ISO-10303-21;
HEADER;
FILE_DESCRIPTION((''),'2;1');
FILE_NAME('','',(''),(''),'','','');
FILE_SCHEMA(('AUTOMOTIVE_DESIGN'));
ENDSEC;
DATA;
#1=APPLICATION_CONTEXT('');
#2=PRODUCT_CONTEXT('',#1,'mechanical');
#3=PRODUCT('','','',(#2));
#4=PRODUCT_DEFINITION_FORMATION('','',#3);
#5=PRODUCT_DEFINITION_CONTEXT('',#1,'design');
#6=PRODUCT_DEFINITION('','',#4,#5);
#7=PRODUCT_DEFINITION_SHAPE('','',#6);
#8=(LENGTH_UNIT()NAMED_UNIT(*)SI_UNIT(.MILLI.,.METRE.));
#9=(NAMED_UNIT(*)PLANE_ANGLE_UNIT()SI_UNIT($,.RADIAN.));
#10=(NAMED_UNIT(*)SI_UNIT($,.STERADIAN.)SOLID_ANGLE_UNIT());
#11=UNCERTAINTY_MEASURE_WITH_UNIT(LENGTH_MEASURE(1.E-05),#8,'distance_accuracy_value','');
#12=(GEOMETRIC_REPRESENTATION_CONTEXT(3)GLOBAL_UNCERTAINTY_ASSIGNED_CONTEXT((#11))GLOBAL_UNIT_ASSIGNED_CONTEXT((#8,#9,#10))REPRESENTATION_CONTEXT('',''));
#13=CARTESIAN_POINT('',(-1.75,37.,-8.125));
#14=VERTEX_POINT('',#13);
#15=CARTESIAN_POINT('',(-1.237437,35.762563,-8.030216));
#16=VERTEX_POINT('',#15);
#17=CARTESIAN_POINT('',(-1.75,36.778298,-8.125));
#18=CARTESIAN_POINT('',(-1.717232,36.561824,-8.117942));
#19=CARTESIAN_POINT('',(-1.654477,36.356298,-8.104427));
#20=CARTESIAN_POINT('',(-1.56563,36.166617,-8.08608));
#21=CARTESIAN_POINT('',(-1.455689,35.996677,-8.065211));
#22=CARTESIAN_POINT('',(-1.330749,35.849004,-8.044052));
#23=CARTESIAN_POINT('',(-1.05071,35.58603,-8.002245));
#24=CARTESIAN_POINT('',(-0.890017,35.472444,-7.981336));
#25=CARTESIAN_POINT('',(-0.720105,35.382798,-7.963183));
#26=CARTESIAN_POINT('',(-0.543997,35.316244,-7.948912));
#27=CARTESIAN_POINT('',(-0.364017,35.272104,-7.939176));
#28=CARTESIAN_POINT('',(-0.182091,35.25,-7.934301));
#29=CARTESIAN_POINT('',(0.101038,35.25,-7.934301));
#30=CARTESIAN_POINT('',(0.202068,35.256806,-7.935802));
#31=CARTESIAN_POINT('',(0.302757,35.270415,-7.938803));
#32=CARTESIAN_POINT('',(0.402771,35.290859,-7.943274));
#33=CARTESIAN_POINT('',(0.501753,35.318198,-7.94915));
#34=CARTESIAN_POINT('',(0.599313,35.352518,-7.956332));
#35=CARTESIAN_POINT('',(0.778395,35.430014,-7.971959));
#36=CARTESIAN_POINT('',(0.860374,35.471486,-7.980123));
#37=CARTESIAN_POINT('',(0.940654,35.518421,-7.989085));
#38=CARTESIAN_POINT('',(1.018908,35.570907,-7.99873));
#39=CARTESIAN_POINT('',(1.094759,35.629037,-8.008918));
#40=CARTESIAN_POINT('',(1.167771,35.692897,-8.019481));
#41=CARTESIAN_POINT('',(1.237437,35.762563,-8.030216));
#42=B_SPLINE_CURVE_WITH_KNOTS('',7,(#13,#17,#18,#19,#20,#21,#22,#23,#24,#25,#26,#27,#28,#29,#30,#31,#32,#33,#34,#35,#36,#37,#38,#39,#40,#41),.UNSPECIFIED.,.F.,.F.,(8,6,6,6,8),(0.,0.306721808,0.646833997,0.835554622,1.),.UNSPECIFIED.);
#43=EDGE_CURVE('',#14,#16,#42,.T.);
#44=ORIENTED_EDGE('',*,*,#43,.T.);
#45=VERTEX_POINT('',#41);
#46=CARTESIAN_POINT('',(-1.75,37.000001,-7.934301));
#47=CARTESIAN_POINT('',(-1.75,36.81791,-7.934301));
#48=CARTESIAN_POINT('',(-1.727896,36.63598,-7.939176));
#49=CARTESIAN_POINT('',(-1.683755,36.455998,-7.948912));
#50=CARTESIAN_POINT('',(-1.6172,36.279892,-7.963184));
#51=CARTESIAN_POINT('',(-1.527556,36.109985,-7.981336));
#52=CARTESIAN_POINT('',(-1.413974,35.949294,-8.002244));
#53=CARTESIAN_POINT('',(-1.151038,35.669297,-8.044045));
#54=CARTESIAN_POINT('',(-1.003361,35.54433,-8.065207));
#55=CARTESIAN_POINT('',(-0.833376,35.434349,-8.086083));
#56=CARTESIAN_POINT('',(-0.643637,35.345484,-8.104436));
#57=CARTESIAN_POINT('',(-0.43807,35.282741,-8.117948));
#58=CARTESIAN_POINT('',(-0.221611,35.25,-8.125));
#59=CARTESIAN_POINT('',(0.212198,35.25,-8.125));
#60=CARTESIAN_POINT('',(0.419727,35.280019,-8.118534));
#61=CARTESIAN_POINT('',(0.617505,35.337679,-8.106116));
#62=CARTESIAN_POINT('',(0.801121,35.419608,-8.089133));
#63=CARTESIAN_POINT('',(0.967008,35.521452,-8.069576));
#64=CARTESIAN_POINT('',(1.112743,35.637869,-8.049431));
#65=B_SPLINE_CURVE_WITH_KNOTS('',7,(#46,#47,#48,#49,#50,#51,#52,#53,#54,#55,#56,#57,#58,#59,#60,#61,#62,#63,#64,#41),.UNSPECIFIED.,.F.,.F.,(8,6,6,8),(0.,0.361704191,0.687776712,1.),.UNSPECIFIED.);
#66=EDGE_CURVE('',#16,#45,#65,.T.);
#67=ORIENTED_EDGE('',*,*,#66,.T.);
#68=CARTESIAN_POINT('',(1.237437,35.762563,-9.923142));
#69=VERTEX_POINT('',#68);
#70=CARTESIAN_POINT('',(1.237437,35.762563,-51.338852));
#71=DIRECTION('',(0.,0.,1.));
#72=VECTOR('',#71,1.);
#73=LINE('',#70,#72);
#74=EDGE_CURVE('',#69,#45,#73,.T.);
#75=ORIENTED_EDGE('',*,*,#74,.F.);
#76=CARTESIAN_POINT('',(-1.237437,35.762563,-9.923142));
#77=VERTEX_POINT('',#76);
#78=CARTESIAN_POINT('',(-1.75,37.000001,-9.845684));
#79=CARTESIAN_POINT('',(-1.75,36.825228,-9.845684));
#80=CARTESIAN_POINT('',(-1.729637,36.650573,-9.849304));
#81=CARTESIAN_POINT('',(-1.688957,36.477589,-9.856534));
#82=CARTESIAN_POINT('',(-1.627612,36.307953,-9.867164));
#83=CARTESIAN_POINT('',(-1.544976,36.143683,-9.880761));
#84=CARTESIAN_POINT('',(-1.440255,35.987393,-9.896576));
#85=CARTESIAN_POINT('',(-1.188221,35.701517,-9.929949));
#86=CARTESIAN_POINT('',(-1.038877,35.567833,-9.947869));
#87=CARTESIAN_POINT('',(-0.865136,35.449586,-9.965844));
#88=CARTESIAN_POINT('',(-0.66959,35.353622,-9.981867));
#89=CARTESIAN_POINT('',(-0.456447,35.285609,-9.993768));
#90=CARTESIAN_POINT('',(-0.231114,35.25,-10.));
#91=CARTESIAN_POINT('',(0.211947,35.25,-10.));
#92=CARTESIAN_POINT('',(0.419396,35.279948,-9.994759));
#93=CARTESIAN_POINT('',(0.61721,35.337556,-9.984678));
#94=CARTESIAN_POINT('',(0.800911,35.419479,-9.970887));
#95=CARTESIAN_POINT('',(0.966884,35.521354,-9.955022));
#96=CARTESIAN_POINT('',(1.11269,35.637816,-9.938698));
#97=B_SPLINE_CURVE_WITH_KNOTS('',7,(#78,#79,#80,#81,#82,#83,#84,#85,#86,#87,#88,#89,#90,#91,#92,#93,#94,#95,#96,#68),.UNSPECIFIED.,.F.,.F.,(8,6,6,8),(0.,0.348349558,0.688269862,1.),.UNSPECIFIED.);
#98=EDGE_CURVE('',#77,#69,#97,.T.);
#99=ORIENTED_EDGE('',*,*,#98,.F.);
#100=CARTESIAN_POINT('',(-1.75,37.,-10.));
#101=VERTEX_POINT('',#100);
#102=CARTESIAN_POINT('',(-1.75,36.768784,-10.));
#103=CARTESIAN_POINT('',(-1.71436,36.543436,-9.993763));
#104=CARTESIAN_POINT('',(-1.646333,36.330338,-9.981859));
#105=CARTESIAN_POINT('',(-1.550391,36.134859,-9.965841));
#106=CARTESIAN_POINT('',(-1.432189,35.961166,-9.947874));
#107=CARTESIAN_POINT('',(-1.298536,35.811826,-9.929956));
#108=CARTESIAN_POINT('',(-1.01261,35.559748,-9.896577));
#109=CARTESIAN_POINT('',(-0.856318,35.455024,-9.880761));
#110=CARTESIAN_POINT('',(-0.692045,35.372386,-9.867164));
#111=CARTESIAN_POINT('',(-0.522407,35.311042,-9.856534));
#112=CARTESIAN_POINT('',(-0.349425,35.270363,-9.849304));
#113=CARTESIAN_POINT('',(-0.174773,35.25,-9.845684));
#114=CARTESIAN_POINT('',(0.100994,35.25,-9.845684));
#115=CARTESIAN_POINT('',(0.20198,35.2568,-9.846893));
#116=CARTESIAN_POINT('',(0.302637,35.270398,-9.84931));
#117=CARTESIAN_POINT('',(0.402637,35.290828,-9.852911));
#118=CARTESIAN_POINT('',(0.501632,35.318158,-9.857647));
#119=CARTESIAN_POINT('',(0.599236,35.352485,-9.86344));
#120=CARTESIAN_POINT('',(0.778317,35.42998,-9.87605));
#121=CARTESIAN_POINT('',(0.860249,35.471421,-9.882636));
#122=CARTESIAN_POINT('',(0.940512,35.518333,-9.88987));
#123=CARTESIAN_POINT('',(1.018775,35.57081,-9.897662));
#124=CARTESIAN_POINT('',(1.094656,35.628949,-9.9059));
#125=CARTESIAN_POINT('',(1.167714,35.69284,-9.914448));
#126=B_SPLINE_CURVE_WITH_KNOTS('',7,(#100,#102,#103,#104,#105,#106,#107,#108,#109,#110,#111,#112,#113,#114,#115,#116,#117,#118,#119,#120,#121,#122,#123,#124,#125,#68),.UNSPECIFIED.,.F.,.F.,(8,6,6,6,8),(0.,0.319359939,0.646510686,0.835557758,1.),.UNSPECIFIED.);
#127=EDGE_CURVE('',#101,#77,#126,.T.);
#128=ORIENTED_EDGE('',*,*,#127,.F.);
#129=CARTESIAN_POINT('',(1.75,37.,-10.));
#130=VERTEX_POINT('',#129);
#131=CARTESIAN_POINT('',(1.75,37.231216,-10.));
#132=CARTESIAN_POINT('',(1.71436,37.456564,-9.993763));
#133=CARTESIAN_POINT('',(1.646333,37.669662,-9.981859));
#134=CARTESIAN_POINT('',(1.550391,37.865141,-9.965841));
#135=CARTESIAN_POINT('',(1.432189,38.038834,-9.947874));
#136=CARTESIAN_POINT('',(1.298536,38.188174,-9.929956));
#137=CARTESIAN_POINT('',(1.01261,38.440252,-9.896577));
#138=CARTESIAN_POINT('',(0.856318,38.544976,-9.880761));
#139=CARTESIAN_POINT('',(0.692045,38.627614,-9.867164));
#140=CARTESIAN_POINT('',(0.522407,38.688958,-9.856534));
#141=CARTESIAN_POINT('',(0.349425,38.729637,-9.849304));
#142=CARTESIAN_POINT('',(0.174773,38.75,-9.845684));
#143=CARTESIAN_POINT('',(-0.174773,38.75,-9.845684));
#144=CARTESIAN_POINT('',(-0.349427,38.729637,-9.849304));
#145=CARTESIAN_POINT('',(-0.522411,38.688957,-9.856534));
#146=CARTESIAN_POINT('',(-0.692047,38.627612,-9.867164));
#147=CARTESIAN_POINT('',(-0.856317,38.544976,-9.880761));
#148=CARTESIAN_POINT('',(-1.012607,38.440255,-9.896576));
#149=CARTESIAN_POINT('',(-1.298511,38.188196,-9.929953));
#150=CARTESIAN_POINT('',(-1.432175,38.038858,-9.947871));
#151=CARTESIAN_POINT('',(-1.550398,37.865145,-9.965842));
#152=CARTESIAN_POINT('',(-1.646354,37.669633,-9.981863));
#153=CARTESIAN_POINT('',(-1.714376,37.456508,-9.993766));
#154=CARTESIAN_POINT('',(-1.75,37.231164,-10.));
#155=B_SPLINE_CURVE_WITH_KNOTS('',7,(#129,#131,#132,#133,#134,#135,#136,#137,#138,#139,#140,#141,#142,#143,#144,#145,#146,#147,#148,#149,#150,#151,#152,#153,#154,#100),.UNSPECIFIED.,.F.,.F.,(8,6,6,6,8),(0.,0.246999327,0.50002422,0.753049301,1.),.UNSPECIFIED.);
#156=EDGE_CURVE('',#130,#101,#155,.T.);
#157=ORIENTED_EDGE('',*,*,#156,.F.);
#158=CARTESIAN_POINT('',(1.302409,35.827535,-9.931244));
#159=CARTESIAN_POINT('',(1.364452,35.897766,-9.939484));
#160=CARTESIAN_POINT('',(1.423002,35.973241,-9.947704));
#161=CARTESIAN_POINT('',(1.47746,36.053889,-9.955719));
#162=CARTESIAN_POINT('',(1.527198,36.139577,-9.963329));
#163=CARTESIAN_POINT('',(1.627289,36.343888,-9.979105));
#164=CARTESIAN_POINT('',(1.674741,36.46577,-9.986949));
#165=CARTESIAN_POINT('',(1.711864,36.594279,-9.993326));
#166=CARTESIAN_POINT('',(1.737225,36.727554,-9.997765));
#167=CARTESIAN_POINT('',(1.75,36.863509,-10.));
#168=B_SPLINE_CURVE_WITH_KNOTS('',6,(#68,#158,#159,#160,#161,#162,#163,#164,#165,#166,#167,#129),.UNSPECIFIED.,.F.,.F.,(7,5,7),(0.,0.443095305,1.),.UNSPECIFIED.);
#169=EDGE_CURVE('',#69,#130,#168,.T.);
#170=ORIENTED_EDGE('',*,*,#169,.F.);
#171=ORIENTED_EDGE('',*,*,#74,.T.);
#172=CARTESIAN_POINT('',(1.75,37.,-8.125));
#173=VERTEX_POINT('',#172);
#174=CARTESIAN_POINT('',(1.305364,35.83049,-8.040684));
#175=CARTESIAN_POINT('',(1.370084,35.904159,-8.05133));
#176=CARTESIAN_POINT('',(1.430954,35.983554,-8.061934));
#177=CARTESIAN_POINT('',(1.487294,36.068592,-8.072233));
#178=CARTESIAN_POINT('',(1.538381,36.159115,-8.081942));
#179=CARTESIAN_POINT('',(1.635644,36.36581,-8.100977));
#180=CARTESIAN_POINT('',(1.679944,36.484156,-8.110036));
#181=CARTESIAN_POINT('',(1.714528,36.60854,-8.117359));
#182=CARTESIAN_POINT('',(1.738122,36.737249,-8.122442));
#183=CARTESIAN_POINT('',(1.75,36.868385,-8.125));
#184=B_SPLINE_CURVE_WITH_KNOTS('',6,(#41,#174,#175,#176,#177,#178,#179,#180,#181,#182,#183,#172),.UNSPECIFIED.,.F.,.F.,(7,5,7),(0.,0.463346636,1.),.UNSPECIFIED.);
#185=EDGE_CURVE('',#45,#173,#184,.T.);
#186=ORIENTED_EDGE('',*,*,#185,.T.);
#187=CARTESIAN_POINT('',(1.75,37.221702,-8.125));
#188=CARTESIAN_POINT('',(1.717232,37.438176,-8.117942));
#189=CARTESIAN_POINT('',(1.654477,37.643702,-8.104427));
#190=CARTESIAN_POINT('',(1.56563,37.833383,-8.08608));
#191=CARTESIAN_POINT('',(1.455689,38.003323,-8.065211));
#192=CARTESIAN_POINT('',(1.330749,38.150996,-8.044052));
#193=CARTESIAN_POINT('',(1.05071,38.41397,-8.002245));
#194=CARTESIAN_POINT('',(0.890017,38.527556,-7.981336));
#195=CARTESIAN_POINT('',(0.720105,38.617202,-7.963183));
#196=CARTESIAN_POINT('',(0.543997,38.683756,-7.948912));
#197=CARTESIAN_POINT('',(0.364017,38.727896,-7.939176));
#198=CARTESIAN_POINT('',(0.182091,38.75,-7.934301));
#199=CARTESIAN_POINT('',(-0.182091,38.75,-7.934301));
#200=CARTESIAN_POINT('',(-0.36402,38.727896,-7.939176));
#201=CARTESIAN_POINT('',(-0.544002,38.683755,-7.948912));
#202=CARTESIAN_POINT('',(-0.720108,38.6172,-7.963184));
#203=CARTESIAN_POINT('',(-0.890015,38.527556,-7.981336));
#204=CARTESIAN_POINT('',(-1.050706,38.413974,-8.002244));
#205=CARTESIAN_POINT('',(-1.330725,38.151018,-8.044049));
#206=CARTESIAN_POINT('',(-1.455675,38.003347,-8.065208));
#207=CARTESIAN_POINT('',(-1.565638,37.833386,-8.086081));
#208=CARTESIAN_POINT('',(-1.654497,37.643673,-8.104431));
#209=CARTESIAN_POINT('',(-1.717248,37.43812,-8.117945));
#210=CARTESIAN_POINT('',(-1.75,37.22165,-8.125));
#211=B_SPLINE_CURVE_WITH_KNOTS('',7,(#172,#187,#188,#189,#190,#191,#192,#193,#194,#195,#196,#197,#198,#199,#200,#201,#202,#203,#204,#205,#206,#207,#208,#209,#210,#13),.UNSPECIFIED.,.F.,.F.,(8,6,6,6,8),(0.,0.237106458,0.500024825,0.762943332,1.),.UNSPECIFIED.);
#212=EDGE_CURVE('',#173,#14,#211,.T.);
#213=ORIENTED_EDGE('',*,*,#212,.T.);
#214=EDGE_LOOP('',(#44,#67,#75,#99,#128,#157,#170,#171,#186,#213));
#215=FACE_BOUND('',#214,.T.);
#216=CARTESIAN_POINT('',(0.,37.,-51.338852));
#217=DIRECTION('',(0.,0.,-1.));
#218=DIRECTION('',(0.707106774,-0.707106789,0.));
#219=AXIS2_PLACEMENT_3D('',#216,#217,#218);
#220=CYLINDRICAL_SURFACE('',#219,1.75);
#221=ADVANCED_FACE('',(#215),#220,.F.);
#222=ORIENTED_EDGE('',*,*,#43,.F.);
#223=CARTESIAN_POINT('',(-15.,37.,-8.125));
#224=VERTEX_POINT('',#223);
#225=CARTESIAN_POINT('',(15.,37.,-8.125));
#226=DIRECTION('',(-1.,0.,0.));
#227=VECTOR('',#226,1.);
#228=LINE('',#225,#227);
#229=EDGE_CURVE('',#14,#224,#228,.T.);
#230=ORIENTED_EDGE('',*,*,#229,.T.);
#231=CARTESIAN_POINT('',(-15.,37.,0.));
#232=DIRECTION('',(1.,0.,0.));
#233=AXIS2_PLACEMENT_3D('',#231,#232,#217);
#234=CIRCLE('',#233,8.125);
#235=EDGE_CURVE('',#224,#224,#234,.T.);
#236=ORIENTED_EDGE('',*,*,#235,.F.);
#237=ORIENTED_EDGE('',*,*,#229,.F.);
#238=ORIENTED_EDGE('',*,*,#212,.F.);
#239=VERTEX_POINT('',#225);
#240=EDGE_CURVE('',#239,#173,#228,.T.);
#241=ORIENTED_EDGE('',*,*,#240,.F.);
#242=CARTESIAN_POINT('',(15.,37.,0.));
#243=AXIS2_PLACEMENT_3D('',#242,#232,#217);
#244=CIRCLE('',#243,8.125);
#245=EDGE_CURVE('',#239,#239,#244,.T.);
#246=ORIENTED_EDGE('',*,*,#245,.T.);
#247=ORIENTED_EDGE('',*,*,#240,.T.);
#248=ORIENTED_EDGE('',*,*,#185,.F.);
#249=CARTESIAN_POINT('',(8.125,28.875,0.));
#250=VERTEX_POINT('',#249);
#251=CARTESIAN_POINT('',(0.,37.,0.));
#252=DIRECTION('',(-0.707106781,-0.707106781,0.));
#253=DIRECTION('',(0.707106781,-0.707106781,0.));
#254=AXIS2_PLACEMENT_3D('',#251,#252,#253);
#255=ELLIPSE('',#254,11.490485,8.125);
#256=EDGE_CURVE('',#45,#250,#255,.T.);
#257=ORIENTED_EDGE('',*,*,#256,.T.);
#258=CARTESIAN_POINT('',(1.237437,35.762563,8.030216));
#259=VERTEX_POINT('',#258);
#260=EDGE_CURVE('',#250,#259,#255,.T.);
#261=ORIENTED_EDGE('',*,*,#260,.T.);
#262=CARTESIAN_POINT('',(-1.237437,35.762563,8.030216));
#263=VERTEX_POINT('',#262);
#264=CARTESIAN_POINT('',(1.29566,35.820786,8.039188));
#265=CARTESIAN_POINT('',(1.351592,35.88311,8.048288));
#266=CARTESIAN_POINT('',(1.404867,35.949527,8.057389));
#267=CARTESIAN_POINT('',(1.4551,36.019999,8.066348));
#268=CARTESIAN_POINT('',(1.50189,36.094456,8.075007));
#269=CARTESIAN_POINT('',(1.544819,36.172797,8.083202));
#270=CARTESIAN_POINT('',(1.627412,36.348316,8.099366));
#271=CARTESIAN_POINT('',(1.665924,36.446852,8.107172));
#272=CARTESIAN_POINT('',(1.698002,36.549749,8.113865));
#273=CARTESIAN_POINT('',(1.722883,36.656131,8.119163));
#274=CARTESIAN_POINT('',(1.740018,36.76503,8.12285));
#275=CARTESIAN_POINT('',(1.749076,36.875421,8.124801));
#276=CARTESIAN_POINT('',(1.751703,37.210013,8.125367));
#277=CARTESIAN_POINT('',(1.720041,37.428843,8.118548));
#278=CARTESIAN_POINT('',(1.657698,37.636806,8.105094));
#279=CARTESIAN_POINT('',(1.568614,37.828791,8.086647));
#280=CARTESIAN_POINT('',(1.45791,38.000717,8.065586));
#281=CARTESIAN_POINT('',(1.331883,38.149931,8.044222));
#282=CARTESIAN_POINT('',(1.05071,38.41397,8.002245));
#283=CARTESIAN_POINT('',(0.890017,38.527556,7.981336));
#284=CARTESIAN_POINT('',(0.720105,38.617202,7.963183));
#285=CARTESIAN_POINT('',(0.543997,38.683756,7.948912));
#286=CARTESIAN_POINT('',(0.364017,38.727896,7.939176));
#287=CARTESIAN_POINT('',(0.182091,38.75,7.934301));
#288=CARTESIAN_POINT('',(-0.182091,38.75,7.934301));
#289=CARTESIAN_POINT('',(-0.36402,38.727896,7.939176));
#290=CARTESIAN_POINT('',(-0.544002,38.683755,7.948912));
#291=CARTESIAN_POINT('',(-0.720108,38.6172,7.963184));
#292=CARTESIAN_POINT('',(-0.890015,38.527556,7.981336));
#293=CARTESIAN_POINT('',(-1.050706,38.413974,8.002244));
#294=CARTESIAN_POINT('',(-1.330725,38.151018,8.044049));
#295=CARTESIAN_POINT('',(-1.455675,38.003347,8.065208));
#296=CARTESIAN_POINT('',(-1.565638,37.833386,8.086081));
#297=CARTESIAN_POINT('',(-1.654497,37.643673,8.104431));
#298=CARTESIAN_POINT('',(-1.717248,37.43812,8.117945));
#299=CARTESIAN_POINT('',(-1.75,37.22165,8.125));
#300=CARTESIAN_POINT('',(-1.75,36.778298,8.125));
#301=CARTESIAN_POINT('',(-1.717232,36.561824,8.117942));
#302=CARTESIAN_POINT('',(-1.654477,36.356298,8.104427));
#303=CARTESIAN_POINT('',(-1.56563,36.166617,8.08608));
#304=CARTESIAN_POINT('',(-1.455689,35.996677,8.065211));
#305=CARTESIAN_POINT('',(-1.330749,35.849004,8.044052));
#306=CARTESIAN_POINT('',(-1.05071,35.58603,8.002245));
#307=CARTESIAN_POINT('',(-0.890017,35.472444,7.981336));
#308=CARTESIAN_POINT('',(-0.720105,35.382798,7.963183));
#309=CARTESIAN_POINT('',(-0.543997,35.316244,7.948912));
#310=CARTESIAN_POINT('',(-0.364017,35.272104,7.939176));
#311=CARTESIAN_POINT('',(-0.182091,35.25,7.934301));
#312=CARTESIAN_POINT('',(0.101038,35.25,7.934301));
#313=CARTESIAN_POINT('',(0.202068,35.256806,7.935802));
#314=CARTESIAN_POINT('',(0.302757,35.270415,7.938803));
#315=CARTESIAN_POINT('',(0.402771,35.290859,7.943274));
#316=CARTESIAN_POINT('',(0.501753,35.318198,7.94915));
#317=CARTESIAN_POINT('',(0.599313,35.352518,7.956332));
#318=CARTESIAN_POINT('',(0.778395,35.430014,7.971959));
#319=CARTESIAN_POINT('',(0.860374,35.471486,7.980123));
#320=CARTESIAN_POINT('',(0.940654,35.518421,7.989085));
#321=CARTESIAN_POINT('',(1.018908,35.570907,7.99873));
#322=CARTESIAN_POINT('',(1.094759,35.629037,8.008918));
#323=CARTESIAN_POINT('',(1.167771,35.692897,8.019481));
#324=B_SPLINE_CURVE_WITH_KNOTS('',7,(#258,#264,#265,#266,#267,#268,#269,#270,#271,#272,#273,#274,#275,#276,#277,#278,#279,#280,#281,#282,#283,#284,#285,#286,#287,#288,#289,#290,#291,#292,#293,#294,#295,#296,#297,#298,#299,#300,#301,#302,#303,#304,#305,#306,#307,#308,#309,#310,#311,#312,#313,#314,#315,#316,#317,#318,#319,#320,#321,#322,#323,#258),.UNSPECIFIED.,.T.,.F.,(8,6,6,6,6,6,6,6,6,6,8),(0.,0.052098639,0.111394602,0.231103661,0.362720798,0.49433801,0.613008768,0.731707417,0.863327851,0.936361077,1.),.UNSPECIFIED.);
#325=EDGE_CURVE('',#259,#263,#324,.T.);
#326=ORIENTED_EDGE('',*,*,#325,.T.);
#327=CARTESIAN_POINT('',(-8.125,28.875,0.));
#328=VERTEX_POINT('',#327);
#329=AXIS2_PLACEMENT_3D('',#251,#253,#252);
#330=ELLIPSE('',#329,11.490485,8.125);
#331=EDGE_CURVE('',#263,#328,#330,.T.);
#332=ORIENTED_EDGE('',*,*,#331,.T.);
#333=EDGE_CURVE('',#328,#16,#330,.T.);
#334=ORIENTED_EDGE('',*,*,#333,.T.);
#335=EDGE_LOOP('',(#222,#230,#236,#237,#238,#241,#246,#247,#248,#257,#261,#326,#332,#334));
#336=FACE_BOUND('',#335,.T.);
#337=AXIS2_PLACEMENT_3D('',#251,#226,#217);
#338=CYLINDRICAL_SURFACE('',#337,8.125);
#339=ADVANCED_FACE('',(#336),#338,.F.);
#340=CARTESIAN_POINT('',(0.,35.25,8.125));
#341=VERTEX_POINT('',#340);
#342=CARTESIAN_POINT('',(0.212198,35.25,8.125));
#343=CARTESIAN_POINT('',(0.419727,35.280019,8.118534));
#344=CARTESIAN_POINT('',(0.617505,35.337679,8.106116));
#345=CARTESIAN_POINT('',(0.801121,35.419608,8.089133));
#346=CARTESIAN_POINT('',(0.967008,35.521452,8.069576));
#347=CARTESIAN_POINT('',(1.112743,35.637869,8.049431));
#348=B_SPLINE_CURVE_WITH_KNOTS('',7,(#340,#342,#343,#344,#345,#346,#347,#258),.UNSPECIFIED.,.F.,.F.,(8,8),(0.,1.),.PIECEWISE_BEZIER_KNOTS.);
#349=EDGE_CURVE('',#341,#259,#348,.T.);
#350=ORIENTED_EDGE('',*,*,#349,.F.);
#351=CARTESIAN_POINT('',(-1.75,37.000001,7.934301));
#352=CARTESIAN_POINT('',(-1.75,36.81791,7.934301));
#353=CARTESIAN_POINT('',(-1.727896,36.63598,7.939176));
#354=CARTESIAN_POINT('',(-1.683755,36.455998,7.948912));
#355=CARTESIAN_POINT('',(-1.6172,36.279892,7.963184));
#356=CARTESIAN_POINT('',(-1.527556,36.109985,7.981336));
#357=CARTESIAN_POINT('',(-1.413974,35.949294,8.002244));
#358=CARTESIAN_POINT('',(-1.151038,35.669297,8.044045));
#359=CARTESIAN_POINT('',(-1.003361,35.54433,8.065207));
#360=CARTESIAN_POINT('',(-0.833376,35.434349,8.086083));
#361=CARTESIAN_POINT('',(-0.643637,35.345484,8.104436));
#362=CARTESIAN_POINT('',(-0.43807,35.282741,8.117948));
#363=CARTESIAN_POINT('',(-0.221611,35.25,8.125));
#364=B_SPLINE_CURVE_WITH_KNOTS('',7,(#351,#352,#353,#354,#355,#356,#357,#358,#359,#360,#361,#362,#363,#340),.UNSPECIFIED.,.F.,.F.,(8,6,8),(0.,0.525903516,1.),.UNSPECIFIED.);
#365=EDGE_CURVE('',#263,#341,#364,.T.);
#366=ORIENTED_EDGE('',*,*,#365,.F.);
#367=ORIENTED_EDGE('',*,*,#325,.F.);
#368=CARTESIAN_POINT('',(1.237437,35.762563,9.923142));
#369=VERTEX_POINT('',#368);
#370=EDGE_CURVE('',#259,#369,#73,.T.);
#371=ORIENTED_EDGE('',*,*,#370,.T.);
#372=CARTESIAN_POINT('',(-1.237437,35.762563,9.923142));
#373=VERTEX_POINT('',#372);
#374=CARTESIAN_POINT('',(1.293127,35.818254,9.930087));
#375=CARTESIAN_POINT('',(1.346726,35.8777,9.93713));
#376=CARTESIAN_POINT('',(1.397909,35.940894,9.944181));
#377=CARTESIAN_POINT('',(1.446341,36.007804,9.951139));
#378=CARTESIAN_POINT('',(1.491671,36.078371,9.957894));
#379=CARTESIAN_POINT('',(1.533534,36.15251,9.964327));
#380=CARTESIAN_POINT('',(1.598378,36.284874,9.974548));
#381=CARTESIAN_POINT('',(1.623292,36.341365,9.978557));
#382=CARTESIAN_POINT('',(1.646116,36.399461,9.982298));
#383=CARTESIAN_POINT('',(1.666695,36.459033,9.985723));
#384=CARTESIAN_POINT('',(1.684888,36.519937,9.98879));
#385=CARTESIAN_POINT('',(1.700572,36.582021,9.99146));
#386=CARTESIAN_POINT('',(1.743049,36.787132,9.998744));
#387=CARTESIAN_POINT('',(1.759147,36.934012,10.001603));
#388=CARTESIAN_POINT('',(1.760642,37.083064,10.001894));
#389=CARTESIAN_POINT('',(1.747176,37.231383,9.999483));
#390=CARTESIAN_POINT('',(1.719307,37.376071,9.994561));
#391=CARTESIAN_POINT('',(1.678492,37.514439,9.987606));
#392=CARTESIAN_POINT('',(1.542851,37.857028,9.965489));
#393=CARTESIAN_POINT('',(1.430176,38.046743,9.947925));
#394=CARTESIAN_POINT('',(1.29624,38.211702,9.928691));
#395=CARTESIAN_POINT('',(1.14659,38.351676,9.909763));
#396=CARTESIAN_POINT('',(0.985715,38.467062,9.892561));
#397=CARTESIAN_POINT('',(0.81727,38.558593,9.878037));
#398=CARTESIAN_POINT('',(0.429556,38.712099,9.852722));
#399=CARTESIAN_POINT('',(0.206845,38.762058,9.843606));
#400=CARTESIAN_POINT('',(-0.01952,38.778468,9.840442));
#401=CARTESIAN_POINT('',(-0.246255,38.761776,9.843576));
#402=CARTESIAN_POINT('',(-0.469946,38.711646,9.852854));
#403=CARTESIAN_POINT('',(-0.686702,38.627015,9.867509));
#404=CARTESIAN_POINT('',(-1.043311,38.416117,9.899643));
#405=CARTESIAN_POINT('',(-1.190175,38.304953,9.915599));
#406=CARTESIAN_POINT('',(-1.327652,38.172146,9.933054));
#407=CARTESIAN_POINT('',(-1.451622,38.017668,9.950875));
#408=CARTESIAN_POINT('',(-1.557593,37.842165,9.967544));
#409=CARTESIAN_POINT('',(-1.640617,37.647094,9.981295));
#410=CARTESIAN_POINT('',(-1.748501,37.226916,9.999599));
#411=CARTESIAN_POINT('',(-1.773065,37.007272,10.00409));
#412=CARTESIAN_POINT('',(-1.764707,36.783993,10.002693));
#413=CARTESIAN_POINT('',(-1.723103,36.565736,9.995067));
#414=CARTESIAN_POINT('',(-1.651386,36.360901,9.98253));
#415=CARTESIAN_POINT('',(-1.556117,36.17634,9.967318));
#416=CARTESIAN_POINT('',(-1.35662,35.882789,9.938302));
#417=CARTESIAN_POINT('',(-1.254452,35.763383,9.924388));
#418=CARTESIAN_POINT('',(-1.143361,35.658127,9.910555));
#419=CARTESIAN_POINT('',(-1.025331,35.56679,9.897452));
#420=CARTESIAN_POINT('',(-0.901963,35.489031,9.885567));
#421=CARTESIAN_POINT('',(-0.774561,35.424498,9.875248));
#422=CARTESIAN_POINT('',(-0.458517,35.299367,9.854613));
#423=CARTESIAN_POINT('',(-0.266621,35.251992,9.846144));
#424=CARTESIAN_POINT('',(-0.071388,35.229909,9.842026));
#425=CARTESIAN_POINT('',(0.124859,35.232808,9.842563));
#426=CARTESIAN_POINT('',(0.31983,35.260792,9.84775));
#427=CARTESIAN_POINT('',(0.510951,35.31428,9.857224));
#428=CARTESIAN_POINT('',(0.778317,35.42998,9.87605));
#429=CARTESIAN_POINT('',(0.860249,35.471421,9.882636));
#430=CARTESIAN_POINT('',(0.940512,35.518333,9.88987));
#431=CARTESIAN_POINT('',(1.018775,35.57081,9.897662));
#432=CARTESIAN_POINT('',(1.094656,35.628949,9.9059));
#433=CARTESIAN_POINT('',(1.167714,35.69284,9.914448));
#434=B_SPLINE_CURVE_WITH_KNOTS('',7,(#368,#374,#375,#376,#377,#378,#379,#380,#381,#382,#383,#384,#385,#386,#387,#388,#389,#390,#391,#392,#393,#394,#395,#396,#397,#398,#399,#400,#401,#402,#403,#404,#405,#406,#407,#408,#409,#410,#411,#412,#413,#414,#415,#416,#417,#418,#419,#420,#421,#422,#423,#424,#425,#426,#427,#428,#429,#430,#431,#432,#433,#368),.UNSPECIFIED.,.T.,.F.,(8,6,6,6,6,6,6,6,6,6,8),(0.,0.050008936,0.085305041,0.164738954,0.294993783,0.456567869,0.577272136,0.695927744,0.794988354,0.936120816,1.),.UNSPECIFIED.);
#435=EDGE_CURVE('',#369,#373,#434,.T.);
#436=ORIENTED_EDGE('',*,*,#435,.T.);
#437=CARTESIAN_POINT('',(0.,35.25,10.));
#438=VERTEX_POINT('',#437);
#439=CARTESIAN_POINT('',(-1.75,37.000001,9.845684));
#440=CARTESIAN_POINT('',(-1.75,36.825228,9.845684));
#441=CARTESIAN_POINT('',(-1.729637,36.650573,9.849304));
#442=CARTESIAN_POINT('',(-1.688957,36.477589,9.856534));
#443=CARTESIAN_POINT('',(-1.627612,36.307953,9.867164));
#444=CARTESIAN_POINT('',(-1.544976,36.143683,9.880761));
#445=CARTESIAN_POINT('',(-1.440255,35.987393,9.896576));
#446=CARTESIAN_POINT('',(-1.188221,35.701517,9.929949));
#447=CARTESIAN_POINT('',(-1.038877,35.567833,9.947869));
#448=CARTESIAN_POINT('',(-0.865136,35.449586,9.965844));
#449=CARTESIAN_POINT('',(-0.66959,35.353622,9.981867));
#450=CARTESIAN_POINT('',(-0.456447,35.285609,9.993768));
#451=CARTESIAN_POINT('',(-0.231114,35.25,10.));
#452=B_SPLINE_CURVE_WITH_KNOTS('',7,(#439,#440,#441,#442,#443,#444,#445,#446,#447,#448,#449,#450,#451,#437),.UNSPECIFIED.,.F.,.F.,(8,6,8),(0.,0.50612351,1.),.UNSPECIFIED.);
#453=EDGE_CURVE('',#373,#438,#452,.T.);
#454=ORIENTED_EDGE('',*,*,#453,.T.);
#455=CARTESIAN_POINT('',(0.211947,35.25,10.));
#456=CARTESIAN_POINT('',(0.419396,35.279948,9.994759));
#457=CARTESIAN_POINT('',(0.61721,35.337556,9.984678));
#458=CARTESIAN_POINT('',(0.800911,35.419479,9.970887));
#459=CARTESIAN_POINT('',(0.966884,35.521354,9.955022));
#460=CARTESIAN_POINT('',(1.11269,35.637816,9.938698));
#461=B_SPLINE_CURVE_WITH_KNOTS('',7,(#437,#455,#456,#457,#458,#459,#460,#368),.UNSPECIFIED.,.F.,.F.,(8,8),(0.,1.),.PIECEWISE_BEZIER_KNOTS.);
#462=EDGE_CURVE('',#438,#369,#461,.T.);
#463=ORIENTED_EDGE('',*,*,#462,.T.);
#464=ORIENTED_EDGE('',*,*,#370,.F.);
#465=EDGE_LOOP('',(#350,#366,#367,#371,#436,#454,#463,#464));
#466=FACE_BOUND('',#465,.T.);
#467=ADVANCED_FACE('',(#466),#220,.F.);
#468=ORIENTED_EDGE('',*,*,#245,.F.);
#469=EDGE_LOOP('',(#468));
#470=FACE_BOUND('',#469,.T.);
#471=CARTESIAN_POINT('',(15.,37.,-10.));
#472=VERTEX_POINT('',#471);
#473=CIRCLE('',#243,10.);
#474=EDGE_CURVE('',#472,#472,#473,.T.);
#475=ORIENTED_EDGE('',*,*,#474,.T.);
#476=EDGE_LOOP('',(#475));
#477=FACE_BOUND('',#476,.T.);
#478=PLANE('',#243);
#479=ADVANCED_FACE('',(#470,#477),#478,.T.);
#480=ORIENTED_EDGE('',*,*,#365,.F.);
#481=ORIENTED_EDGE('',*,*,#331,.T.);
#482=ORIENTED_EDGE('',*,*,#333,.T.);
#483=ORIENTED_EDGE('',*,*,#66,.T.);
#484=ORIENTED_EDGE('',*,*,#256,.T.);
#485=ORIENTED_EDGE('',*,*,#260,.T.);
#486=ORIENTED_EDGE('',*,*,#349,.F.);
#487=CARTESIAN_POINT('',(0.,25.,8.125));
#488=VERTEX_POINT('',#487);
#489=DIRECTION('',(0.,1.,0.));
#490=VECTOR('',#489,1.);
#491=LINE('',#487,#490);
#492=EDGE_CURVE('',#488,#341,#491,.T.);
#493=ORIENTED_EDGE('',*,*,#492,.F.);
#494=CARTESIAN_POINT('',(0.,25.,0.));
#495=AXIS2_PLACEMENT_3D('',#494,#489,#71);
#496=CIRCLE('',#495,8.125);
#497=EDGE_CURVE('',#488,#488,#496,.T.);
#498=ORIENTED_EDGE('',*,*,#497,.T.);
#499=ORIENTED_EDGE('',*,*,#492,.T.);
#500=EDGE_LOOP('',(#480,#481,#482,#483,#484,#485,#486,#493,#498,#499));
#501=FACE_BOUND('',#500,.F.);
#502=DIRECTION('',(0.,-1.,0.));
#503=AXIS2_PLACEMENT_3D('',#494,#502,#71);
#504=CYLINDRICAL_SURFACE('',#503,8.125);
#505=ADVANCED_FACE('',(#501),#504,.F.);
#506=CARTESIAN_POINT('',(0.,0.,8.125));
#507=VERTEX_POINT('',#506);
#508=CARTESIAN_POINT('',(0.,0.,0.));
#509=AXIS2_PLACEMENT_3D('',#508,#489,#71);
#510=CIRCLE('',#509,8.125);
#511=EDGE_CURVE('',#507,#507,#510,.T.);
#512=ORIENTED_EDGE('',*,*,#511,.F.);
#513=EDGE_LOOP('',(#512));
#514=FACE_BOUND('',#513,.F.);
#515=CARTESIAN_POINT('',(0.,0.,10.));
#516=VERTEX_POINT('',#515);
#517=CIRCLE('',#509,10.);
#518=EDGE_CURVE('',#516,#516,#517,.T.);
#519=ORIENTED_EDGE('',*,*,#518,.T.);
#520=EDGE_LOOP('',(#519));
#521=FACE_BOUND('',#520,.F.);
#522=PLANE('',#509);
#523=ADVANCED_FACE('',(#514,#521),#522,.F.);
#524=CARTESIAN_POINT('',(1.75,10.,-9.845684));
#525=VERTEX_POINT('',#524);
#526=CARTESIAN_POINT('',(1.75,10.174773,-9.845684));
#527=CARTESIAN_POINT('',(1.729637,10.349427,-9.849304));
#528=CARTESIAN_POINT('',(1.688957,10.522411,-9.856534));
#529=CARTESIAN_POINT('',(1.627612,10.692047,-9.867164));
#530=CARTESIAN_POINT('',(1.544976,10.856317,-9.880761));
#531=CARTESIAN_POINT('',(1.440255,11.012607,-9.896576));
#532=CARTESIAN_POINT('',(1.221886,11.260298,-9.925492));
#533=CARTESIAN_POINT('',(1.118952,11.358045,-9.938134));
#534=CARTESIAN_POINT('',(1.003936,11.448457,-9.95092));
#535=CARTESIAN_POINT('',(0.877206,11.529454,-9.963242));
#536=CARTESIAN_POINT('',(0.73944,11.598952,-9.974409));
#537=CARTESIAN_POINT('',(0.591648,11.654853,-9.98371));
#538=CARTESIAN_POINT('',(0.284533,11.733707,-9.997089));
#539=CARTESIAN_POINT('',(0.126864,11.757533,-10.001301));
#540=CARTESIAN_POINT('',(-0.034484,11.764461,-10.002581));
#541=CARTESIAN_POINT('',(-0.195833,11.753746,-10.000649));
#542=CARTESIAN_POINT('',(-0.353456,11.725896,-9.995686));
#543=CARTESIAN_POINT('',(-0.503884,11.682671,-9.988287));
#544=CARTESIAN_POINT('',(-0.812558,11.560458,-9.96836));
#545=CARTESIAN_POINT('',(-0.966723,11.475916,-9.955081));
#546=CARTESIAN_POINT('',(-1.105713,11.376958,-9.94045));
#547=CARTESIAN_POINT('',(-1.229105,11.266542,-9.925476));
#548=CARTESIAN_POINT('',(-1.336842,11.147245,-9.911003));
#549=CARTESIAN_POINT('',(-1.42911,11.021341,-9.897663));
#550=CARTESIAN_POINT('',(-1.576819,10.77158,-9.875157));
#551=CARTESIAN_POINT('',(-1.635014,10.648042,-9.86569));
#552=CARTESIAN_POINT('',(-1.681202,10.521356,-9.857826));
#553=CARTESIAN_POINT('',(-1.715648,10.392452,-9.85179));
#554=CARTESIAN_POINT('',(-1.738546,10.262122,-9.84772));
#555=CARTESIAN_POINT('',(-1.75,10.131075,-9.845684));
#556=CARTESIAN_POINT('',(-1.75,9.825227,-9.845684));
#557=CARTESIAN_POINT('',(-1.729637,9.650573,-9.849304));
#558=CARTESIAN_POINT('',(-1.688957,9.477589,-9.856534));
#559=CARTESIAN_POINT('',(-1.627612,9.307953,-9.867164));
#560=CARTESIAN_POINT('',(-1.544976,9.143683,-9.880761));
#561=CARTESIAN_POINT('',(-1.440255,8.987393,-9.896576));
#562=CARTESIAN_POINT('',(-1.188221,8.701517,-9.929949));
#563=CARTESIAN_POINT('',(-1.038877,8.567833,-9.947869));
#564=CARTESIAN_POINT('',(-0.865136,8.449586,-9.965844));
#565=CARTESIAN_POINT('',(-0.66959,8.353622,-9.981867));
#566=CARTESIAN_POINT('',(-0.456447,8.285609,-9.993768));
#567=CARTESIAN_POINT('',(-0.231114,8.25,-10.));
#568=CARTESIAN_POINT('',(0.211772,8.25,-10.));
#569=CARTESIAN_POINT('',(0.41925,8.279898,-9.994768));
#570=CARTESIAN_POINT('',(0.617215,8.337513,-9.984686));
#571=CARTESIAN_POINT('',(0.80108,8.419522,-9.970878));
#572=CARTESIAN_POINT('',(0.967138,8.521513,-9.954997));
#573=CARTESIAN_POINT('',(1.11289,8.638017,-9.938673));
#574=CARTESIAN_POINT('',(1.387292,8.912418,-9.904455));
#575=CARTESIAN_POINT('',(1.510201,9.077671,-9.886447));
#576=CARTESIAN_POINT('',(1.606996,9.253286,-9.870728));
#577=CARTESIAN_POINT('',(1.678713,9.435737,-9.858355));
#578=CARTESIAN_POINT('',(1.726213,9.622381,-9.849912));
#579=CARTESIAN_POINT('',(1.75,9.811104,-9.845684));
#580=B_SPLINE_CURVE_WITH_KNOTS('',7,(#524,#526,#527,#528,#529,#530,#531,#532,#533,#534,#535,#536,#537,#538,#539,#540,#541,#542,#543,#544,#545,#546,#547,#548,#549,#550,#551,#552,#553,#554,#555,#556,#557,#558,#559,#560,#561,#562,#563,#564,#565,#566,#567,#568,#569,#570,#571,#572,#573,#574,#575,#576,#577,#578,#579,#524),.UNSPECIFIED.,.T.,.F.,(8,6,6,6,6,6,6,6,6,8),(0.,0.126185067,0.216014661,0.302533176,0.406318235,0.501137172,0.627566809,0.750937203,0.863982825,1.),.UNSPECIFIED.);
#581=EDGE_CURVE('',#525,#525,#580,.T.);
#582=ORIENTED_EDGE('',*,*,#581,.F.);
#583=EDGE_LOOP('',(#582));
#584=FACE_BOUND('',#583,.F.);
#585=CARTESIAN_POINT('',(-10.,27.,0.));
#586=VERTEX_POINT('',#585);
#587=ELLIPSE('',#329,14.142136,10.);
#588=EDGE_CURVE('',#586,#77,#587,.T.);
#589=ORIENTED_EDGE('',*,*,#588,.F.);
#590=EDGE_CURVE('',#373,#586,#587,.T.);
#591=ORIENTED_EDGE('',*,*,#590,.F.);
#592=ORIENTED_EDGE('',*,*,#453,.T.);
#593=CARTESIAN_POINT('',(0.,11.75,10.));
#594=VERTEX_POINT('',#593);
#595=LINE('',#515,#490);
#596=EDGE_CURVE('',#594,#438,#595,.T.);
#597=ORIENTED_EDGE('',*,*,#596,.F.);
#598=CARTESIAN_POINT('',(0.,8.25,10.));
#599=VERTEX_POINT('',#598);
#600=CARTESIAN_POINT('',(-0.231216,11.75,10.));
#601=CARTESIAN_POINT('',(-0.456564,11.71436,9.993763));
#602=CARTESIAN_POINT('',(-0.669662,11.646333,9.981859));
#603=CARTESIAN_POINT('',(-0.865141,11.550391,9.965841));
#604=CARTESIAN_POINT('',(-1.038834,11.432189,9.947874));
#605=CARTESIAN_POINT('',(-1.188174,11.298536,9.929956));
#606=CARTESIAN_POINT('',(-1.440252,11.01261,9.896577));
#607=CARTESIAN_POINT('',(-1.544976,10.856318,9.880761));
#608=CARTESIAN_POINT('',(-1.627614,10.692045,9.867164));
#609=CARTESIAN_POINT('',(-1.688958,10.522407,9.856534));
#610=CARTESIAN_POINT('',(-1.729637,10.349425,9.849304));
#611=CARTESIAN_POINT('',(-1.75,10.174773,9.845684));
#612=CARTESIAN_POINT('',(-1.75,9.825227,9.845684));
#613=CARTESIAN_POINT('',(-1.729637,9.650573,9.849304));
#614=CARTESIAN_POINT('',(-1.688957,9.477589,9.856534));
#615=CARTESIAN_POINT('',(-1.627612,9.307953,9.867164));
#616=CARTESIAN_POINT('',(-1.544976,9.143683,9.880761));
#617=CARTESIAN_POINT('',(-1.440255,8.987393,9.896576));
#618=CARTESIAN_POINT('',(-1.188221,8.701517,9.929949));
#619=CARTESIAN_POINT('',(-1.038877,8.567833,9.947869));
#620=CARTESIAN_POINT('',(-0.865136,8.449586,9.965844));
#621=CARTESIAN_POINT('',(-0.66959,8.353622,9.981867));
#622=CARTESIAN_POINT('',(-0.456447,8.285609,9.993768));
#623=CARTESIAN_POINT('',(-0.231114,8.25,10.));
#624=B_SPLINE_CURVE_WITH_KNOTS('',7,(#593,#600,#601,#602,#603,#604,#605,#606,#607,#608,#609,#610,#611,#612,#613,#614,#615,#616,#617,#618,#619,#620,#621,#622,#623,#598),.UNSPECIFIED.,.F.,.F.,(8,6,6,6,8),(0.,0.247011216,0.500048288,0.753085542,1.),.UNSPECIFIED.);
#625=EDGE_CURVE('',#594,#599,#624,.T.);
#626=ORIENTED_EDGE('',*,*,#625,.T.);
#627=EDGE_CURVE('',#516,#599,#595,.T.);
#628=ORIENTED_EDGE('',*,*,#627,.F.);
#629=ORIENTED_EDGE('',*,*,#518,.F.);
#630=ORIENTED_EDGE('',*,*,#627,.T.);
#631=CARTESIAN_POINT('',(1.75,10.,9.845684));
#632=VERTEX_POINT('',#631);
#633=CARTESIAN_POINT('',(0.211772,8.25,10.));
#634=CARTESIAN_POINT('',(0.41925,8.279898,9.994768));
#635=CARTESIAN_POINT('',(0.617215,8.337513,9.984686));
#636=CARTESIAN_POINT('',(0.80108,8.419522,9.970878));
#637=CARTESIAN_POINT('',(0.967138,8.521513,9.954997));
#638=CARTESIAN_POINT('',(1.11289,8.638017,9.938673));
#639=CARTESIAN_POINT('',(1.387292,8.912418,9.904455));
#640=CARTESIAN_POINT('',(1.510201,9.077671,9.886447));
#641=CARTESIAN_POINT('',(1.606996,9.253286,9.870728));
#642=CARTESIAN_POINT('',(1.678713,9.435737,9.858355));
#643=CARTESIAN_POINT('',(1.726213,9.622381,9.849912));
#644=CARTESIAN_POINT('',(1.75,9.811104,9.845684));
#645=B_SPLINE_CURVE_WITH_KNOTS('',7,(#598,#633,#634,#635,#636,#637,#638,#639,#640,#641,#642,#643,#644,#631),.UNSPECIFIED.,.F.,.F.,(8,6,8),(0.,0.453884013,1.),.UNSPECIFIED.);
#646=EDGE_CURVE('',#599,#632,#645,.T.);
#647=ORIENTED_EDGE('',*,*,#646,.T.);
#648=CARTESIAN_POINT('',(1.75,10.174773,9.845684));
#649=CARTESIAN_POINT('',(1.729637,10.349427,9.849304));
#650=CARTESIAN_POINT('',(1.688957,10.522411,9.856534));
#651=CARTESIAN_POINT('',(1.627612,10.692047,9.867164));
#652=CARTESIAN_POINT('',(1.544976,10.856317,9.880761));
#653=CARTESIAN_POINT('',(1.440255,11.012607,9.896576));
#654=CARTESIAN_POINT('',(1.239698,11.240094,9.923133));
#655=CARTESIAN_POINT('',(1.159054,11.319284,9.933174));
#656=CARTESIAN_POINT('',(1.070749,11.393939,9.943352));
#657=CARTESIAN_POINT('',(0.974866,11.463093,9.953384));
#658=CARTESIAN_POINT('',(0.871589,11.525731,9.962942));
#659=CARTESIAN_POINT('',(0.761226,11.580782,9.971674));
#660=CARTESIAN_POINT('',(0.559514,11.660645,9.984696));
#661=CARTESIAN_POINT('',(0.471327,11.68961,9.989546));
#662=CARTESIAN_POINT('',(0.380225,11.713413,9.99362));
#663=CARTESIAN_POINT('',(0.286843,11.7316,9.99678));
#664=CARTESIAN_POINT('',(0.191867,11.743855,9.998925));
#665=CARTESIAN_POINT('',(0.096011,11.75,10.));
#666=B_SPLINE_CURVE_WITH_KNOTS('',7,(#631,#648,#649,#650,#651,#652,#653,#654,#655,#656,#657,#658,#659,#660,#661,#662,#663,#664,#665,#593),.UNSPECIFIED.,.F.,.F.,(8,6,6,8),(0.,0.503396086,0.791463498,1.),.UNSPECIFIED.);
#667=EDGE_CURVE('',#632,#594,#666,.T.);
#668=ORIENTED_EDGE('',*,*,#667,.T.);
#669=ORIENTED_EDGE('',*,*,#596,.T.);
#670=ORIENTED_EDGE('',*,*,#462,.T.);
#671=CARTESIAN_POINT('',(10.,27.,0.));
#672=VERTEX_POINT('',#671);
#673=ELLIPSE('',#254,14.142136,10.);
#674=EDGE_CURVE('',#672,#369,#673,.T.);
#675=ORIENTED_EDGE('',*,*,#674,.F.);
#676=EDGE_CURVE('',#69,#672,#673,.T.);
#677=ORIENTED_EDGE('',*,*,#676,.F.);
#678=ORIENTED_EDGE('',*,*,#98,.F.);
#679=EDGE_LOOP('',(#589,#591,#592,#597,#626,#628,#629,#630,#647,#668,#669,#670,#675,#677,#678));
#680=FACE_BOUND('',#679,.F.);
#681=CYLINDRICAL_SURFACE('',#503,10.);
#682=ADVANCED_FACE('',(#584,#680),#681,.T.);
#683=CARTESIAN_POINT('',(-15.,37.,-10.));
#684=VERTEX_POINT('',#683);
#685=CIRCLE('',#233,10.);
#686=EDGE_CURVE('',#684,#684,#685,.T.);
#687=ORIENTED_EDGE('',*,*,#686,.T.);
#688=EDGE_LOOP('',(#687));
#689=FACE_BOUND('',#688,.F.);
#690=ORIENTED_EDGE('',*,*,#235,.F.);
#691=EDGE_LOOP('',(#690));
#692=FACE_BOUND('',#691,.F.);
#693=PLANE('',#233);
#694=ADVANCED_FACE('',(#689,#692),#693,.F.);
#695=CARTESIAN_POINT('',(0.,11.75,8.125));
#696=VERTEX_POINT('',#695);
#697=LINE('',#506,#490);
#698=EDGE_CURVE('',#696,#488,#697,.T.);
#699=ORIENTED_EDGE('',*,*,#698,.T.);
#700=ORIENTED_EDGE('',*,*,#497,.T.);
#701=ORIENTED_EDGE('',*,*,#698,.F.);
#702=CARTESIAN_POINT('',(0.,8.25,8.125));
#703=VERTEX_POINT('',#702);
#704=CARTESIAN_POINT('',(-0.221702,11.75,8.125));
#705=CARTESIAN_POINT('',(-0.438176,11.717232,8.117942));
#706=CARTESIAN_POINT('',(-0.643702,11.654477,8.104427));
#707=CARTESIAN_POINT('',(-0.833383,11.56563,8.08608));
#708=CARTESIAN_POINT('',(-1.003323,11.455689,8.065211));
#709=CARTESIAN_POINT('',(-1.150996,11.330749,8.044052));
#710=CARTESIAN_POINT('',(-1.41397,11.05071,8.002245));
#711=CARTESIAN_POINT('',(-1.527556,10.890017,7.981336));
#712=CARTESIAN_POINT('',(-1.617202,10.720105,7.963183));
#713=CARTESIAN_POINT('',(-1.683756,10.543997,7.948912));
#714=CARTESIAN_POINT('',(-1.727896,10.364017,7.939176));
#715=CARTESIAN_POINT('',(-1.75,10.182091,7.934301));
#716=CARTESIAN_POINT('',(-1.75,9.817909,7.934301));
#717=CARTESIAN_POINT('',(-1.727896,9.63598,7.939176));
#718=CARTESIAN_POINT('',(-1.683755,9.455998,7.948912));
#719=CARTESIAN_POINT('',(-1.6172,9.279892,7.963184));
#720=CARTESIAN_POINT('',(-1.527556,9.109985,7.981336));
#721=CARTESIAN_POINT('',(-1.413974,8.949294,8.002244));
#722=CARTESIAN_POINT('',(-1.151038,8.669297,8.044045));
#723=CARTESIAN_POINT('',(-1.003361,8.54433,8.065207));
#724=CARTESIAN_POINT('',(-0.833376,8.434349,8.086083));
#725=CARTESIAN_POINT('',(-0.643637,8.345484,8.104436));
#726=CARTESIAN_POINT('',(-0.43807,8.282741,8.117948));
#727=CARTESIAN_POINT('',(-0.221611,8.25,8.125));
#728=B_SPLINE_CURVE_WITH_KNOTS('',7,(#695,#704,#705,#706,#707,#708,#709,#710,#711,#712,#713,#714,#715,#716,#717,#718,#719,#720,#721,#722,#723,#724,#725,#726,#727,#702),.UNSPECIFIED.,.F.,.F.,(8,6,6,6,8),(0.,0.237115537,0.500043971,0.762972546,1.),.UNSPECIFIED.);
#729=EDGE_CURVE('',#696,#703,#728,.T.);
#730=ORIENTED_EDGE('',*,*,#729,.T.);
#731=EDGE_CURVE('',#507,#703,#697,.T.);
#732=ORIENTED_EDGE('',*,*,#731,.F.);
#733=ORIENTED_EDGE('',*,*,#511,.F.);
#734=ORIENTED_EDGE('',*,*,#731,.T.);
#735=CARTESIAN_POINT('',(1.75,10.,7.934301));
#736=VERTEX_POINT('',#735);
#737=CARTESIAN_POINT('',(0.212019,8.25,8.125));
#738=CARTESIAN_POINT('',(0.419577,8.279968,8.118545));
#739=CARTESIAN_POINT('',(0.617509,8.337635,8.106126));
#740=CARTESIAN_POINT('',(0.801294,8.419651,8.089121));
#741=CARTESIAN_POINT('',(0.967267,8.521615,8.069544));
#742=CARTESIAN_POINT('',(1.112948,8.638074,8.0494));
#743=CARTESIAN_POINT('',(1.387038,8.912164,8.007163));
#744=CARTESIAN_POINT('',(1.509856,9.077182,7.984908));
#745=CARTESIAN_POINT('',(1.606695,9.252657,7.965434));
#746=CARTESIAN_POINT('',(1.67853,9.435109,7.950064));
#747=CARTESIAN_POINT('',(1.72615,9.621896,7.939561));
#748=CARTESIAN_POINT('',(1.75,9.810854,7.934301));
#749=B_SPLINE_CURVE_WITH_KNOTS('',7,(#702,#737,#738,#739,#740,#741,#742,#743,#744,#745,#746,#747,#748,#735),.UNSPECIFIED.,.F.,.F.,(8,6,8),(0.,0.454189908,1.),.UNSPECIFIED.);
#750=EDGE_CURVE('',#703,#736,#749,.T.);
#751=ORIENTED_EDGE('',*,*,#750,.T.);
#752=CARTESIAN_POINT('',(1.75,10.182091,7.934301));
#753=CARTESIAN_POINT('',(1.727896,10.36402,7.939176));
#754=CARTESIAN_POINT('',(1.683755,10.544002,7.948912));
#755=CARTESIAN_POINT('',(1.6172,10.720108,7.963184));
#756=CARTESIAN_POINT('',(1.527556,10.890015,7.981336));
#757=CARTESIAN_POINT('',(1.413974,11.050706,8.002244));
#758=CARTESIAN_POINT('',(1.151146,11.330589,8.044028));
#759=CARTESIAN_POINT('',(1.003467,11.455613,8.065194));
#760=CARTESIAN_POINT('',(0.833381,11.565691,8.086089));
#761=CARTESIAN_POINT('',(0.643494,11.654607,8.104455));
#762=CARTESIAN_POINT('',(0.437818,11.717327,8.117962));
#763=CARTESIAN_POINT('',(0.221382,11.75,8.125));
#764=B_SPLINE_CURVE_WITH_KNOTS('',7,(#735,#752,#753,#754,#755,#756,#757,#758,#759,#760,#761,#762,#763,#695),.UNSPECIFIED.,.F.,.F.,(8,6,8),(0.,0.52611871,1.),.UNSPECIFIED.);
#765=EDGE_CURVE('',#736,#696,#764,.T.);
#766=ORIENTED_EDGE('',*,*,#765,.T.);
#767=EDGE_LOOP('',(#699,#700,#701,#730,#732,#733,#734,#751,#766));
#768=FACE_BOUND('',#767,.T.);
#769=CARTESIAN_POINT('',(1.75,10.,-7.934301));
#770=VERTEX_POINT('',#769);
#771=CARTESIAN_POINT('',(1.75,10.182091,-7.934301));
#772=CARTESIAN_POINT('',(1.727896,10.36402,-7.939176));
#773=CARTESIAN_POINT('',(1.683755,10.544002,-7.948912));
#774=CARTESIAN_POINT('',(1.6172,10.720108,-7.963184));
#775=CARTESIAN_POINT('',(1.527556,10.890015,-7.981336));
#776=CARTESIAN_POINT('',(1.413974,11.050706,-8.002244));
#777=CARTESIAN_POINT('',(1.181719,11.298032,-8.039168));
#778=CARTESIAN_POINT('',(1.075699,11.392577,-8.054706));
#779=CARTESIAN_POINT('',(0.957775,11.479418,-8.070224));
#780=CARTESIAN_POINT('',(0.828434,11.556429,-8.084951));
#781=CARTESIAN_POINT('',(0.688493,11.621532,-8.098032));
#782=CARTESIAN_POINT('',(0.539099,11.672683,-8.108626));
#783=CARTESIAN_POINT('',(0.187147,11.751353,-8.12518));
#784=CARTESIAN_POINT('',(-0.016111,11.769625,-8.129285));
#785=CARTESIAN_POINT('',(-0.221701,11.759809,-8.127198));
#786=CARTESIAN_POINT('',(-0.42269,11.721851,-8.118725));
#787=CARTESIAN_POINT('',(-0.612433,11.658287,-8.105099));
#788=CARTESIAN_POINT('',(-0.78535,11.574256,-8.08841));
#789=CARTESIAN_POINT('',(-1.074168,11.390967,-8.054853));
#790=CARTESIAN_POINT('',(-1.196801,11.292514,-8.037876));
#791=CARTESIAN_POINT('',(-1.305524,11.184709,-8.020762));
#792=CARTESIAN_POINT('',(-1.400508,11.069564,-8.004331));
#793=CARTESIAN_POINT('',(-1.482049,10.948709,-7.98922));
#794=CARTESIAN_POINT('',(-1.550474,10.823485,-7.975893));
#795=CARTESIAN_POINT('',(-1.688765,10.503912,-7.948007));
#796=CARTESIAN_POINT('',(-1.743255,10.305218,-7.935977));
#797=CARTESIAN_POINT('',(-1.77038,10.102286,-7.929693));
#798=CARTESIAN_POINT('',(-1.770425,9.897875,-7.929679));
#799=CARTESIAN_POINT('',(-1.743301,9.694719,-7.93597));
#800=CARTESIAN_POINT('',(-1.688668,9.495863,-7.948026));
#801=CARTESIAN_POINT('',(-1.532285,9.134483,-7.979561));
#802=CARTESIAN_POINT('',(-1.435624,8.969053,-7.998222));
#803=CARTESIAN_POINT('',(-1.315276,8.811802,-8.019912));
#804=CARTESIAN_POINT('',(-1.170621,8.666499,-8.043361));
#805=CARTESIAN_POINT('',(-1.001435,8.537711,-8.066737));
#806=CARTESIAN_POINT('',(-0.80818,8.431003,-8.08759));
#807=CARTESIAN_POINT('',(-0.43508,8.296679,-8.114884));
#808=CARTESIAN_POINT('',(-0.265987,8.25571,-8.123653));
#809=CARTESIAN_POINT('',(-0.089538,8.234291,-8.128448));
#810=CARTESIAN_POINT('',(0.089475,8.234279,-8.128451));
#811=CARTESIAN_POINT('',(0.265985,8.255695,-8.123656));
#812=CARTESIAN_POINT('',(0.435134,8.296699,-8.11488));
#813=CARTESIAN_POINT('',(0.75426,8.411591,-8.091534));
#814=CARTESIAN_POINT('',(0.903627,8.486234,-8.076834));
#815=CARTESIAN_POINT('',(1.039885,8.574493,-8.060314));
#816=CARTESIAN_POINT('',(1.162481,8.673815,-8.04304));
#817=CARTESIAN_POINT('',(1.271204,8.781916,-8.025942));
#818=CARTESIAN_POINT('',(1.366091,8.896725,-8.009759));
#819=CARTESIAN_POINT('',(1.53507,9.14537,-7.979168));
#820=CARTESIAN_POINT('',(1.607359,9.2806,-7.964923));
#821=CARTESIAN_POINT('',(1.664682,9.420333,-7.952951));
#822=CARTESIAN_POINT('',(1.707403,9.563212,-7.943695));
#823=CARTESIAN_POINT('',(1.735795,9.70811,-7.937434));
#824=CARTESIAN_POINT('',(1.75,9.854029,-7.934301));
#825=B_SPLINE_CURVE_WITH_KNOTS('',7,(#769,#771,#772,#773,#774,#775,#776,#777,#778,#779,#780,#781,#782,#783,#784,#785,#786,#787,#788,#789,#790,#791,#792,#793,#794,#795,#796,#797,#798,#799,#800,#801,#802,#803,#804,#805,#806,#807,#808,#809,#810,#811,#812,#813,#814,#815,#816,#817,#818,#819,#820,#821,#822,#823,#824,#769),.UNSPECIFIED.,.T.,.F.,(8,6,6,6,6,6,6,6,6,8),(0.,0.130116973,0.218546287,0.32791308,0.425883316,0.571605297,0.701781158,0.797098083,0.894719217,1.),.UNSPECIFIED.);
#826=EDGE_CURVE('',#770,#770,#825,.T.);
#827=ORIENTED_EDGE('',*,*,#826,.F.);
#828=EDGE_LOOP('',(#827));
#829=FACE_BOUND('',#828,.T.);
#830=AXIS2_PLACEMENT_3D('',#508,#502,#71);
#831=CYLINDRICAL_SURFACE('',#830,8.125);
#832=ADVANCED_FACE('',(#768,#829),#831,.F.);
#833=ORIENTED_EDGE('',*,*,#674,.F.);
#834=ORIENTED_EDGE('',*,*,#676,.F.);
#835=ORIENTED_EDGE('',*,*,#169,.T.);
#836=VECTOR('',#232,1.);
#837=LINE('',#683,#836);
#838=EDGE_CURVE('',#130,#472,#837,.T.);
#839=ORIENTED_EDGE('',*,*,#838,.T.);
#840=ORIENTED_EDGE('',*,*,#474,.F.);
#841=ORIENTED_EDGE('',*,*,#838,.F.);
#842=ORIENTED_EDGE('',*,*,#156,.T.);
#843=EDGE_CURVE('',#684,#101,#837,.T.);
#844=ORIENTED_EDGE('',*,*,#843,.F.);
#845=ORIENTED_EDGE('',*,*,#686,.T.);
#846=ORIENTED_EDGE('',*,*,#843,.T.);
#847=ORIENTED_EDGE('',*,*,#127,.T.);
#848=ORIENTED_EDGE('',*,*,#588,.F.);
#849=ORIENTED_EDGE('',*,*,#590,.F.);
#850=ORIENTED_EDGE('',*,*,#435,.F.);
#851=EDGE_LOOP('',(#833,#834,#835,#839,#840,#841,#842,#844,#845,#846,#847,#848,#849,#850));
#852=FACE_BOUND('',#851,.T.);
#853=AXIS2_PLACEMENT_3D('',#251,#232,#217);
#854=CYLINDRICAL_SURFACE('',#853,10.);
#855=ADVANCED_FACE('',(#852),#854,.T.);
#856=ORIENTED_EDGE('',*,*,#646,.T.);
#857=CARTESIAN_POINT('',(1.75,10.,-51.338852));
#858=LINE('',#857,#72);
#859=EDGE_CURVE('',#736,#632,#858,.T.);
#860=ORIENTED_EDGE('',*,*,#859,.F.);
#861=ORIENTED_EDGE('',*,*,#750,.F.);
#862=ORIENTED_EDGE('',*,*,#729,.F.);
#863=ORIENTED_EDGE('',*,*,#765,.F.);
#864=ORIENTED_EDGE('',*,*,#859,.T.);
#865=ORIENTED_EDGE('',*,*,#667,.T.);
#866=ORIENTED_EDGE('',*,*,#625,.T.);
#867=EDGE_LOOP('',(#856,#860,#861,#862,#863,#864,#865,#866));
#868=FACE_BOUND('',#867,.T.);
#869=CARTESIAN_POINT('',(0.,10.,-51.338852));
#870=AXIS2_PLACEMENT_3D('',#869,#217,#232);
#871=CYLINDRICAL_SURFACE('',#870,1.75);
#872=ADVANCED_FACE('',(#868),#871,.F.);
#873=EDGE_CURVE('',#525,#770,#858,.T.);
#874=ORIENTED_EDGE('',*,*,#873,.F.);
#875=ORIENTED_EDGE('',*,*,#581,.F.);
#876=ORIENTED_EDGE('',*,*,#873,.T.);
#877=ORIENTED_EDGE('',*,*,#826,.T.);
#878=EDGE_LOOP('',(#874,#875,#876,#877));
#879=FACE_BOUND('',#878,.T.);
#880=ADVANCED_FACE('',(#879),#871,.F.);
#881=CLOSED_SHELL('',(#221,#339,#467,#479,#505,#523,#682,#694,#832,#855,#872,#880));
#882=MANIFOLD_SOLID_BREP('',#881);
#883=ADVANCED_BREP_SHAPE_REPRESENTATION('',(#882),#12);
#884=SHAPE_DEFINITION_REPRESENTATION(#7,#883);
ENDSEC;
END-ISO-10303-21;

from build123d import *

# Parameters (mm, degrees)
SKETCH1_R                = 10
SKETCH1_R_2              = 8.125
BOSS_EXTRUDE1_DEPTH      = 25
SKETCH2_R                = 10
SKETCH2_R_2              = 8.125
BOSS_EXTRUDE2_DEPTH      = 15
BOSS_EXTRUDE4_REACH      = 32.822
BOSS_EXTRUDE4_END_RADIUS = 10
SKETCH4_R                = 10
CUT_EXTRUDE3_REACH       = 32.822
SKETCH7_R                = 8.125
CUT_EXTRUDE1_DEPTH       = 51.338851795
CUT_EXTRUDE1_DEPTH_BACK  = 51.338851795
SKETCH5_R                = 1.75
CUT_EXTRUDE2_DEPTH       = 51.338851814
CUT_EXTRUDE2_DEPTH_BACK  = 51.338851814
SKETCH6_R                = 1.75


with BuildPart() as part:
    # Sketch1 → Boss-Extrude1 (new body)
    with BuildSketch(Plane(origin=(0, 0, 0), x_dir=(1, 0, 0), z_dir=(0, 1, 0))):
        with Locations(Location((0, 0, 0), (0, 0, 270))):
            Circle(SKETCH1_R)
        with Locations(Location((0, 0, 0), (0, 0, 270))):
            Circle(SKETCH1_R_2, mode=Mode.SUBTRACT)
    extrude(amount=BOSS_EXTRUDE1_DEPTH)



with BuildPart() as body_2:
    # Sketch2 → Boss-Extrude2 (new, symmetric)
    with BuildSketch(Plane(origin=(0, 0, 0), x_dir=(0, 0, -1), z_dir=(1, 0, 0))):
        with Locations((0, 37)):
            Circle(SKETCH2_R)
        with Locations((0, 37)):
            Circle(SKETCH2_R_2, mode=Mode.SUBTRACT)
    extrude(amount=BOSS_EXTRUDE2_DEPTH, both=True)


with BuildPart() as part_1:
    add(part.part)

    add(body_2.part)  # Boss-Extrude4 merges body 2
    # Boss-Extrude4: up to this cylinder (the profile starts outside it)
    boss_extrude4_end = Plane(origin=(0, 37, 0), z_dir=(-1, 0, 0)) * Cylinder(BOSS_EXTRUDE4_END_RADIUS, 86.644, mode=Mode.PRIVATE)
    # Sketch4 → Boss-Extrude4 (add, up to the surface)
    with BuildSketch(Plane(origin=(0, 25, 0), x_dir=(1, 0, 0), z_dir=(0, 1, 0)), mode=Mode.PRIVATE) as boss_extrude4_sk1:
        with Locations(Location((0, 0, 0), (0, 0, 270))):
            Circle(SKETCH4_R)
    boss_extrude4_tool1 = extrude(boss_extrude4_sk1.sketch, amount=BOSS_EXTRUDE4_REACH, mode=Mode.PRIVATE) - boss_extrude4_end
    add(boss_extrude4_tool1.solids().sort_by_distance((0, 25, 0))[0])

    # Sketch7 → Cut-Extrude3 (cut, up to next)
    with BuildSketch(Plane.XZ.offset(-25), mode=Mode.PRIVATE) as cut_extrude3_sk1:
        with Locations(Location((0, 0, 0), (0, 0, 90))):
            Circle(SKETCH7_R)
    cut_extrude3_tool1 = extrude(cut_extrude3_sk1.sketch, amount=-CUT_EXTRUDE3_REACH, mode=Mode.PRIVATE) & part_1.part
    add(cut_extrude3_tool1.solids().sort_by_distance((0, 25, 0))[0], mode=Mode.SUBTRACT)

    # Sketch5 → Cut-Extrude1 (cut, two sides: drawn at the far end of the back side and taken through both)
    with BuildSketch(Plane.XY.offset(-CUT_EXTRUDE1_DEPTH_BACK)):
        with Locations((0, 10)):
            Circle(SKETCH5_R)
    extrude(amount=CUT_EXTRUDE1_DEPTH + CUT_EXTRUDE1_DEPTH_BACK, mode=Mode.SUBTRACT)

    # Sketch6 → Cut-Extrude2 (cut, two sides: drawn at the far end of the back side and taken through both)
    with BuildSketch(Plane.XY.offset(-CUT_EXTRUDE2_DEPTH_BACK)):
        with Locations(Location((0, 37, 0), (0, 0, 314.999999393))):
            Circle(SKETCH6_R)
    extrude(amount=CUT_EXTRUDE2_DEPTH + CUT_EXTRUDE2_DEPTH_BACK, mode=Mode.SUBTRACT)


solid = part_1.part
